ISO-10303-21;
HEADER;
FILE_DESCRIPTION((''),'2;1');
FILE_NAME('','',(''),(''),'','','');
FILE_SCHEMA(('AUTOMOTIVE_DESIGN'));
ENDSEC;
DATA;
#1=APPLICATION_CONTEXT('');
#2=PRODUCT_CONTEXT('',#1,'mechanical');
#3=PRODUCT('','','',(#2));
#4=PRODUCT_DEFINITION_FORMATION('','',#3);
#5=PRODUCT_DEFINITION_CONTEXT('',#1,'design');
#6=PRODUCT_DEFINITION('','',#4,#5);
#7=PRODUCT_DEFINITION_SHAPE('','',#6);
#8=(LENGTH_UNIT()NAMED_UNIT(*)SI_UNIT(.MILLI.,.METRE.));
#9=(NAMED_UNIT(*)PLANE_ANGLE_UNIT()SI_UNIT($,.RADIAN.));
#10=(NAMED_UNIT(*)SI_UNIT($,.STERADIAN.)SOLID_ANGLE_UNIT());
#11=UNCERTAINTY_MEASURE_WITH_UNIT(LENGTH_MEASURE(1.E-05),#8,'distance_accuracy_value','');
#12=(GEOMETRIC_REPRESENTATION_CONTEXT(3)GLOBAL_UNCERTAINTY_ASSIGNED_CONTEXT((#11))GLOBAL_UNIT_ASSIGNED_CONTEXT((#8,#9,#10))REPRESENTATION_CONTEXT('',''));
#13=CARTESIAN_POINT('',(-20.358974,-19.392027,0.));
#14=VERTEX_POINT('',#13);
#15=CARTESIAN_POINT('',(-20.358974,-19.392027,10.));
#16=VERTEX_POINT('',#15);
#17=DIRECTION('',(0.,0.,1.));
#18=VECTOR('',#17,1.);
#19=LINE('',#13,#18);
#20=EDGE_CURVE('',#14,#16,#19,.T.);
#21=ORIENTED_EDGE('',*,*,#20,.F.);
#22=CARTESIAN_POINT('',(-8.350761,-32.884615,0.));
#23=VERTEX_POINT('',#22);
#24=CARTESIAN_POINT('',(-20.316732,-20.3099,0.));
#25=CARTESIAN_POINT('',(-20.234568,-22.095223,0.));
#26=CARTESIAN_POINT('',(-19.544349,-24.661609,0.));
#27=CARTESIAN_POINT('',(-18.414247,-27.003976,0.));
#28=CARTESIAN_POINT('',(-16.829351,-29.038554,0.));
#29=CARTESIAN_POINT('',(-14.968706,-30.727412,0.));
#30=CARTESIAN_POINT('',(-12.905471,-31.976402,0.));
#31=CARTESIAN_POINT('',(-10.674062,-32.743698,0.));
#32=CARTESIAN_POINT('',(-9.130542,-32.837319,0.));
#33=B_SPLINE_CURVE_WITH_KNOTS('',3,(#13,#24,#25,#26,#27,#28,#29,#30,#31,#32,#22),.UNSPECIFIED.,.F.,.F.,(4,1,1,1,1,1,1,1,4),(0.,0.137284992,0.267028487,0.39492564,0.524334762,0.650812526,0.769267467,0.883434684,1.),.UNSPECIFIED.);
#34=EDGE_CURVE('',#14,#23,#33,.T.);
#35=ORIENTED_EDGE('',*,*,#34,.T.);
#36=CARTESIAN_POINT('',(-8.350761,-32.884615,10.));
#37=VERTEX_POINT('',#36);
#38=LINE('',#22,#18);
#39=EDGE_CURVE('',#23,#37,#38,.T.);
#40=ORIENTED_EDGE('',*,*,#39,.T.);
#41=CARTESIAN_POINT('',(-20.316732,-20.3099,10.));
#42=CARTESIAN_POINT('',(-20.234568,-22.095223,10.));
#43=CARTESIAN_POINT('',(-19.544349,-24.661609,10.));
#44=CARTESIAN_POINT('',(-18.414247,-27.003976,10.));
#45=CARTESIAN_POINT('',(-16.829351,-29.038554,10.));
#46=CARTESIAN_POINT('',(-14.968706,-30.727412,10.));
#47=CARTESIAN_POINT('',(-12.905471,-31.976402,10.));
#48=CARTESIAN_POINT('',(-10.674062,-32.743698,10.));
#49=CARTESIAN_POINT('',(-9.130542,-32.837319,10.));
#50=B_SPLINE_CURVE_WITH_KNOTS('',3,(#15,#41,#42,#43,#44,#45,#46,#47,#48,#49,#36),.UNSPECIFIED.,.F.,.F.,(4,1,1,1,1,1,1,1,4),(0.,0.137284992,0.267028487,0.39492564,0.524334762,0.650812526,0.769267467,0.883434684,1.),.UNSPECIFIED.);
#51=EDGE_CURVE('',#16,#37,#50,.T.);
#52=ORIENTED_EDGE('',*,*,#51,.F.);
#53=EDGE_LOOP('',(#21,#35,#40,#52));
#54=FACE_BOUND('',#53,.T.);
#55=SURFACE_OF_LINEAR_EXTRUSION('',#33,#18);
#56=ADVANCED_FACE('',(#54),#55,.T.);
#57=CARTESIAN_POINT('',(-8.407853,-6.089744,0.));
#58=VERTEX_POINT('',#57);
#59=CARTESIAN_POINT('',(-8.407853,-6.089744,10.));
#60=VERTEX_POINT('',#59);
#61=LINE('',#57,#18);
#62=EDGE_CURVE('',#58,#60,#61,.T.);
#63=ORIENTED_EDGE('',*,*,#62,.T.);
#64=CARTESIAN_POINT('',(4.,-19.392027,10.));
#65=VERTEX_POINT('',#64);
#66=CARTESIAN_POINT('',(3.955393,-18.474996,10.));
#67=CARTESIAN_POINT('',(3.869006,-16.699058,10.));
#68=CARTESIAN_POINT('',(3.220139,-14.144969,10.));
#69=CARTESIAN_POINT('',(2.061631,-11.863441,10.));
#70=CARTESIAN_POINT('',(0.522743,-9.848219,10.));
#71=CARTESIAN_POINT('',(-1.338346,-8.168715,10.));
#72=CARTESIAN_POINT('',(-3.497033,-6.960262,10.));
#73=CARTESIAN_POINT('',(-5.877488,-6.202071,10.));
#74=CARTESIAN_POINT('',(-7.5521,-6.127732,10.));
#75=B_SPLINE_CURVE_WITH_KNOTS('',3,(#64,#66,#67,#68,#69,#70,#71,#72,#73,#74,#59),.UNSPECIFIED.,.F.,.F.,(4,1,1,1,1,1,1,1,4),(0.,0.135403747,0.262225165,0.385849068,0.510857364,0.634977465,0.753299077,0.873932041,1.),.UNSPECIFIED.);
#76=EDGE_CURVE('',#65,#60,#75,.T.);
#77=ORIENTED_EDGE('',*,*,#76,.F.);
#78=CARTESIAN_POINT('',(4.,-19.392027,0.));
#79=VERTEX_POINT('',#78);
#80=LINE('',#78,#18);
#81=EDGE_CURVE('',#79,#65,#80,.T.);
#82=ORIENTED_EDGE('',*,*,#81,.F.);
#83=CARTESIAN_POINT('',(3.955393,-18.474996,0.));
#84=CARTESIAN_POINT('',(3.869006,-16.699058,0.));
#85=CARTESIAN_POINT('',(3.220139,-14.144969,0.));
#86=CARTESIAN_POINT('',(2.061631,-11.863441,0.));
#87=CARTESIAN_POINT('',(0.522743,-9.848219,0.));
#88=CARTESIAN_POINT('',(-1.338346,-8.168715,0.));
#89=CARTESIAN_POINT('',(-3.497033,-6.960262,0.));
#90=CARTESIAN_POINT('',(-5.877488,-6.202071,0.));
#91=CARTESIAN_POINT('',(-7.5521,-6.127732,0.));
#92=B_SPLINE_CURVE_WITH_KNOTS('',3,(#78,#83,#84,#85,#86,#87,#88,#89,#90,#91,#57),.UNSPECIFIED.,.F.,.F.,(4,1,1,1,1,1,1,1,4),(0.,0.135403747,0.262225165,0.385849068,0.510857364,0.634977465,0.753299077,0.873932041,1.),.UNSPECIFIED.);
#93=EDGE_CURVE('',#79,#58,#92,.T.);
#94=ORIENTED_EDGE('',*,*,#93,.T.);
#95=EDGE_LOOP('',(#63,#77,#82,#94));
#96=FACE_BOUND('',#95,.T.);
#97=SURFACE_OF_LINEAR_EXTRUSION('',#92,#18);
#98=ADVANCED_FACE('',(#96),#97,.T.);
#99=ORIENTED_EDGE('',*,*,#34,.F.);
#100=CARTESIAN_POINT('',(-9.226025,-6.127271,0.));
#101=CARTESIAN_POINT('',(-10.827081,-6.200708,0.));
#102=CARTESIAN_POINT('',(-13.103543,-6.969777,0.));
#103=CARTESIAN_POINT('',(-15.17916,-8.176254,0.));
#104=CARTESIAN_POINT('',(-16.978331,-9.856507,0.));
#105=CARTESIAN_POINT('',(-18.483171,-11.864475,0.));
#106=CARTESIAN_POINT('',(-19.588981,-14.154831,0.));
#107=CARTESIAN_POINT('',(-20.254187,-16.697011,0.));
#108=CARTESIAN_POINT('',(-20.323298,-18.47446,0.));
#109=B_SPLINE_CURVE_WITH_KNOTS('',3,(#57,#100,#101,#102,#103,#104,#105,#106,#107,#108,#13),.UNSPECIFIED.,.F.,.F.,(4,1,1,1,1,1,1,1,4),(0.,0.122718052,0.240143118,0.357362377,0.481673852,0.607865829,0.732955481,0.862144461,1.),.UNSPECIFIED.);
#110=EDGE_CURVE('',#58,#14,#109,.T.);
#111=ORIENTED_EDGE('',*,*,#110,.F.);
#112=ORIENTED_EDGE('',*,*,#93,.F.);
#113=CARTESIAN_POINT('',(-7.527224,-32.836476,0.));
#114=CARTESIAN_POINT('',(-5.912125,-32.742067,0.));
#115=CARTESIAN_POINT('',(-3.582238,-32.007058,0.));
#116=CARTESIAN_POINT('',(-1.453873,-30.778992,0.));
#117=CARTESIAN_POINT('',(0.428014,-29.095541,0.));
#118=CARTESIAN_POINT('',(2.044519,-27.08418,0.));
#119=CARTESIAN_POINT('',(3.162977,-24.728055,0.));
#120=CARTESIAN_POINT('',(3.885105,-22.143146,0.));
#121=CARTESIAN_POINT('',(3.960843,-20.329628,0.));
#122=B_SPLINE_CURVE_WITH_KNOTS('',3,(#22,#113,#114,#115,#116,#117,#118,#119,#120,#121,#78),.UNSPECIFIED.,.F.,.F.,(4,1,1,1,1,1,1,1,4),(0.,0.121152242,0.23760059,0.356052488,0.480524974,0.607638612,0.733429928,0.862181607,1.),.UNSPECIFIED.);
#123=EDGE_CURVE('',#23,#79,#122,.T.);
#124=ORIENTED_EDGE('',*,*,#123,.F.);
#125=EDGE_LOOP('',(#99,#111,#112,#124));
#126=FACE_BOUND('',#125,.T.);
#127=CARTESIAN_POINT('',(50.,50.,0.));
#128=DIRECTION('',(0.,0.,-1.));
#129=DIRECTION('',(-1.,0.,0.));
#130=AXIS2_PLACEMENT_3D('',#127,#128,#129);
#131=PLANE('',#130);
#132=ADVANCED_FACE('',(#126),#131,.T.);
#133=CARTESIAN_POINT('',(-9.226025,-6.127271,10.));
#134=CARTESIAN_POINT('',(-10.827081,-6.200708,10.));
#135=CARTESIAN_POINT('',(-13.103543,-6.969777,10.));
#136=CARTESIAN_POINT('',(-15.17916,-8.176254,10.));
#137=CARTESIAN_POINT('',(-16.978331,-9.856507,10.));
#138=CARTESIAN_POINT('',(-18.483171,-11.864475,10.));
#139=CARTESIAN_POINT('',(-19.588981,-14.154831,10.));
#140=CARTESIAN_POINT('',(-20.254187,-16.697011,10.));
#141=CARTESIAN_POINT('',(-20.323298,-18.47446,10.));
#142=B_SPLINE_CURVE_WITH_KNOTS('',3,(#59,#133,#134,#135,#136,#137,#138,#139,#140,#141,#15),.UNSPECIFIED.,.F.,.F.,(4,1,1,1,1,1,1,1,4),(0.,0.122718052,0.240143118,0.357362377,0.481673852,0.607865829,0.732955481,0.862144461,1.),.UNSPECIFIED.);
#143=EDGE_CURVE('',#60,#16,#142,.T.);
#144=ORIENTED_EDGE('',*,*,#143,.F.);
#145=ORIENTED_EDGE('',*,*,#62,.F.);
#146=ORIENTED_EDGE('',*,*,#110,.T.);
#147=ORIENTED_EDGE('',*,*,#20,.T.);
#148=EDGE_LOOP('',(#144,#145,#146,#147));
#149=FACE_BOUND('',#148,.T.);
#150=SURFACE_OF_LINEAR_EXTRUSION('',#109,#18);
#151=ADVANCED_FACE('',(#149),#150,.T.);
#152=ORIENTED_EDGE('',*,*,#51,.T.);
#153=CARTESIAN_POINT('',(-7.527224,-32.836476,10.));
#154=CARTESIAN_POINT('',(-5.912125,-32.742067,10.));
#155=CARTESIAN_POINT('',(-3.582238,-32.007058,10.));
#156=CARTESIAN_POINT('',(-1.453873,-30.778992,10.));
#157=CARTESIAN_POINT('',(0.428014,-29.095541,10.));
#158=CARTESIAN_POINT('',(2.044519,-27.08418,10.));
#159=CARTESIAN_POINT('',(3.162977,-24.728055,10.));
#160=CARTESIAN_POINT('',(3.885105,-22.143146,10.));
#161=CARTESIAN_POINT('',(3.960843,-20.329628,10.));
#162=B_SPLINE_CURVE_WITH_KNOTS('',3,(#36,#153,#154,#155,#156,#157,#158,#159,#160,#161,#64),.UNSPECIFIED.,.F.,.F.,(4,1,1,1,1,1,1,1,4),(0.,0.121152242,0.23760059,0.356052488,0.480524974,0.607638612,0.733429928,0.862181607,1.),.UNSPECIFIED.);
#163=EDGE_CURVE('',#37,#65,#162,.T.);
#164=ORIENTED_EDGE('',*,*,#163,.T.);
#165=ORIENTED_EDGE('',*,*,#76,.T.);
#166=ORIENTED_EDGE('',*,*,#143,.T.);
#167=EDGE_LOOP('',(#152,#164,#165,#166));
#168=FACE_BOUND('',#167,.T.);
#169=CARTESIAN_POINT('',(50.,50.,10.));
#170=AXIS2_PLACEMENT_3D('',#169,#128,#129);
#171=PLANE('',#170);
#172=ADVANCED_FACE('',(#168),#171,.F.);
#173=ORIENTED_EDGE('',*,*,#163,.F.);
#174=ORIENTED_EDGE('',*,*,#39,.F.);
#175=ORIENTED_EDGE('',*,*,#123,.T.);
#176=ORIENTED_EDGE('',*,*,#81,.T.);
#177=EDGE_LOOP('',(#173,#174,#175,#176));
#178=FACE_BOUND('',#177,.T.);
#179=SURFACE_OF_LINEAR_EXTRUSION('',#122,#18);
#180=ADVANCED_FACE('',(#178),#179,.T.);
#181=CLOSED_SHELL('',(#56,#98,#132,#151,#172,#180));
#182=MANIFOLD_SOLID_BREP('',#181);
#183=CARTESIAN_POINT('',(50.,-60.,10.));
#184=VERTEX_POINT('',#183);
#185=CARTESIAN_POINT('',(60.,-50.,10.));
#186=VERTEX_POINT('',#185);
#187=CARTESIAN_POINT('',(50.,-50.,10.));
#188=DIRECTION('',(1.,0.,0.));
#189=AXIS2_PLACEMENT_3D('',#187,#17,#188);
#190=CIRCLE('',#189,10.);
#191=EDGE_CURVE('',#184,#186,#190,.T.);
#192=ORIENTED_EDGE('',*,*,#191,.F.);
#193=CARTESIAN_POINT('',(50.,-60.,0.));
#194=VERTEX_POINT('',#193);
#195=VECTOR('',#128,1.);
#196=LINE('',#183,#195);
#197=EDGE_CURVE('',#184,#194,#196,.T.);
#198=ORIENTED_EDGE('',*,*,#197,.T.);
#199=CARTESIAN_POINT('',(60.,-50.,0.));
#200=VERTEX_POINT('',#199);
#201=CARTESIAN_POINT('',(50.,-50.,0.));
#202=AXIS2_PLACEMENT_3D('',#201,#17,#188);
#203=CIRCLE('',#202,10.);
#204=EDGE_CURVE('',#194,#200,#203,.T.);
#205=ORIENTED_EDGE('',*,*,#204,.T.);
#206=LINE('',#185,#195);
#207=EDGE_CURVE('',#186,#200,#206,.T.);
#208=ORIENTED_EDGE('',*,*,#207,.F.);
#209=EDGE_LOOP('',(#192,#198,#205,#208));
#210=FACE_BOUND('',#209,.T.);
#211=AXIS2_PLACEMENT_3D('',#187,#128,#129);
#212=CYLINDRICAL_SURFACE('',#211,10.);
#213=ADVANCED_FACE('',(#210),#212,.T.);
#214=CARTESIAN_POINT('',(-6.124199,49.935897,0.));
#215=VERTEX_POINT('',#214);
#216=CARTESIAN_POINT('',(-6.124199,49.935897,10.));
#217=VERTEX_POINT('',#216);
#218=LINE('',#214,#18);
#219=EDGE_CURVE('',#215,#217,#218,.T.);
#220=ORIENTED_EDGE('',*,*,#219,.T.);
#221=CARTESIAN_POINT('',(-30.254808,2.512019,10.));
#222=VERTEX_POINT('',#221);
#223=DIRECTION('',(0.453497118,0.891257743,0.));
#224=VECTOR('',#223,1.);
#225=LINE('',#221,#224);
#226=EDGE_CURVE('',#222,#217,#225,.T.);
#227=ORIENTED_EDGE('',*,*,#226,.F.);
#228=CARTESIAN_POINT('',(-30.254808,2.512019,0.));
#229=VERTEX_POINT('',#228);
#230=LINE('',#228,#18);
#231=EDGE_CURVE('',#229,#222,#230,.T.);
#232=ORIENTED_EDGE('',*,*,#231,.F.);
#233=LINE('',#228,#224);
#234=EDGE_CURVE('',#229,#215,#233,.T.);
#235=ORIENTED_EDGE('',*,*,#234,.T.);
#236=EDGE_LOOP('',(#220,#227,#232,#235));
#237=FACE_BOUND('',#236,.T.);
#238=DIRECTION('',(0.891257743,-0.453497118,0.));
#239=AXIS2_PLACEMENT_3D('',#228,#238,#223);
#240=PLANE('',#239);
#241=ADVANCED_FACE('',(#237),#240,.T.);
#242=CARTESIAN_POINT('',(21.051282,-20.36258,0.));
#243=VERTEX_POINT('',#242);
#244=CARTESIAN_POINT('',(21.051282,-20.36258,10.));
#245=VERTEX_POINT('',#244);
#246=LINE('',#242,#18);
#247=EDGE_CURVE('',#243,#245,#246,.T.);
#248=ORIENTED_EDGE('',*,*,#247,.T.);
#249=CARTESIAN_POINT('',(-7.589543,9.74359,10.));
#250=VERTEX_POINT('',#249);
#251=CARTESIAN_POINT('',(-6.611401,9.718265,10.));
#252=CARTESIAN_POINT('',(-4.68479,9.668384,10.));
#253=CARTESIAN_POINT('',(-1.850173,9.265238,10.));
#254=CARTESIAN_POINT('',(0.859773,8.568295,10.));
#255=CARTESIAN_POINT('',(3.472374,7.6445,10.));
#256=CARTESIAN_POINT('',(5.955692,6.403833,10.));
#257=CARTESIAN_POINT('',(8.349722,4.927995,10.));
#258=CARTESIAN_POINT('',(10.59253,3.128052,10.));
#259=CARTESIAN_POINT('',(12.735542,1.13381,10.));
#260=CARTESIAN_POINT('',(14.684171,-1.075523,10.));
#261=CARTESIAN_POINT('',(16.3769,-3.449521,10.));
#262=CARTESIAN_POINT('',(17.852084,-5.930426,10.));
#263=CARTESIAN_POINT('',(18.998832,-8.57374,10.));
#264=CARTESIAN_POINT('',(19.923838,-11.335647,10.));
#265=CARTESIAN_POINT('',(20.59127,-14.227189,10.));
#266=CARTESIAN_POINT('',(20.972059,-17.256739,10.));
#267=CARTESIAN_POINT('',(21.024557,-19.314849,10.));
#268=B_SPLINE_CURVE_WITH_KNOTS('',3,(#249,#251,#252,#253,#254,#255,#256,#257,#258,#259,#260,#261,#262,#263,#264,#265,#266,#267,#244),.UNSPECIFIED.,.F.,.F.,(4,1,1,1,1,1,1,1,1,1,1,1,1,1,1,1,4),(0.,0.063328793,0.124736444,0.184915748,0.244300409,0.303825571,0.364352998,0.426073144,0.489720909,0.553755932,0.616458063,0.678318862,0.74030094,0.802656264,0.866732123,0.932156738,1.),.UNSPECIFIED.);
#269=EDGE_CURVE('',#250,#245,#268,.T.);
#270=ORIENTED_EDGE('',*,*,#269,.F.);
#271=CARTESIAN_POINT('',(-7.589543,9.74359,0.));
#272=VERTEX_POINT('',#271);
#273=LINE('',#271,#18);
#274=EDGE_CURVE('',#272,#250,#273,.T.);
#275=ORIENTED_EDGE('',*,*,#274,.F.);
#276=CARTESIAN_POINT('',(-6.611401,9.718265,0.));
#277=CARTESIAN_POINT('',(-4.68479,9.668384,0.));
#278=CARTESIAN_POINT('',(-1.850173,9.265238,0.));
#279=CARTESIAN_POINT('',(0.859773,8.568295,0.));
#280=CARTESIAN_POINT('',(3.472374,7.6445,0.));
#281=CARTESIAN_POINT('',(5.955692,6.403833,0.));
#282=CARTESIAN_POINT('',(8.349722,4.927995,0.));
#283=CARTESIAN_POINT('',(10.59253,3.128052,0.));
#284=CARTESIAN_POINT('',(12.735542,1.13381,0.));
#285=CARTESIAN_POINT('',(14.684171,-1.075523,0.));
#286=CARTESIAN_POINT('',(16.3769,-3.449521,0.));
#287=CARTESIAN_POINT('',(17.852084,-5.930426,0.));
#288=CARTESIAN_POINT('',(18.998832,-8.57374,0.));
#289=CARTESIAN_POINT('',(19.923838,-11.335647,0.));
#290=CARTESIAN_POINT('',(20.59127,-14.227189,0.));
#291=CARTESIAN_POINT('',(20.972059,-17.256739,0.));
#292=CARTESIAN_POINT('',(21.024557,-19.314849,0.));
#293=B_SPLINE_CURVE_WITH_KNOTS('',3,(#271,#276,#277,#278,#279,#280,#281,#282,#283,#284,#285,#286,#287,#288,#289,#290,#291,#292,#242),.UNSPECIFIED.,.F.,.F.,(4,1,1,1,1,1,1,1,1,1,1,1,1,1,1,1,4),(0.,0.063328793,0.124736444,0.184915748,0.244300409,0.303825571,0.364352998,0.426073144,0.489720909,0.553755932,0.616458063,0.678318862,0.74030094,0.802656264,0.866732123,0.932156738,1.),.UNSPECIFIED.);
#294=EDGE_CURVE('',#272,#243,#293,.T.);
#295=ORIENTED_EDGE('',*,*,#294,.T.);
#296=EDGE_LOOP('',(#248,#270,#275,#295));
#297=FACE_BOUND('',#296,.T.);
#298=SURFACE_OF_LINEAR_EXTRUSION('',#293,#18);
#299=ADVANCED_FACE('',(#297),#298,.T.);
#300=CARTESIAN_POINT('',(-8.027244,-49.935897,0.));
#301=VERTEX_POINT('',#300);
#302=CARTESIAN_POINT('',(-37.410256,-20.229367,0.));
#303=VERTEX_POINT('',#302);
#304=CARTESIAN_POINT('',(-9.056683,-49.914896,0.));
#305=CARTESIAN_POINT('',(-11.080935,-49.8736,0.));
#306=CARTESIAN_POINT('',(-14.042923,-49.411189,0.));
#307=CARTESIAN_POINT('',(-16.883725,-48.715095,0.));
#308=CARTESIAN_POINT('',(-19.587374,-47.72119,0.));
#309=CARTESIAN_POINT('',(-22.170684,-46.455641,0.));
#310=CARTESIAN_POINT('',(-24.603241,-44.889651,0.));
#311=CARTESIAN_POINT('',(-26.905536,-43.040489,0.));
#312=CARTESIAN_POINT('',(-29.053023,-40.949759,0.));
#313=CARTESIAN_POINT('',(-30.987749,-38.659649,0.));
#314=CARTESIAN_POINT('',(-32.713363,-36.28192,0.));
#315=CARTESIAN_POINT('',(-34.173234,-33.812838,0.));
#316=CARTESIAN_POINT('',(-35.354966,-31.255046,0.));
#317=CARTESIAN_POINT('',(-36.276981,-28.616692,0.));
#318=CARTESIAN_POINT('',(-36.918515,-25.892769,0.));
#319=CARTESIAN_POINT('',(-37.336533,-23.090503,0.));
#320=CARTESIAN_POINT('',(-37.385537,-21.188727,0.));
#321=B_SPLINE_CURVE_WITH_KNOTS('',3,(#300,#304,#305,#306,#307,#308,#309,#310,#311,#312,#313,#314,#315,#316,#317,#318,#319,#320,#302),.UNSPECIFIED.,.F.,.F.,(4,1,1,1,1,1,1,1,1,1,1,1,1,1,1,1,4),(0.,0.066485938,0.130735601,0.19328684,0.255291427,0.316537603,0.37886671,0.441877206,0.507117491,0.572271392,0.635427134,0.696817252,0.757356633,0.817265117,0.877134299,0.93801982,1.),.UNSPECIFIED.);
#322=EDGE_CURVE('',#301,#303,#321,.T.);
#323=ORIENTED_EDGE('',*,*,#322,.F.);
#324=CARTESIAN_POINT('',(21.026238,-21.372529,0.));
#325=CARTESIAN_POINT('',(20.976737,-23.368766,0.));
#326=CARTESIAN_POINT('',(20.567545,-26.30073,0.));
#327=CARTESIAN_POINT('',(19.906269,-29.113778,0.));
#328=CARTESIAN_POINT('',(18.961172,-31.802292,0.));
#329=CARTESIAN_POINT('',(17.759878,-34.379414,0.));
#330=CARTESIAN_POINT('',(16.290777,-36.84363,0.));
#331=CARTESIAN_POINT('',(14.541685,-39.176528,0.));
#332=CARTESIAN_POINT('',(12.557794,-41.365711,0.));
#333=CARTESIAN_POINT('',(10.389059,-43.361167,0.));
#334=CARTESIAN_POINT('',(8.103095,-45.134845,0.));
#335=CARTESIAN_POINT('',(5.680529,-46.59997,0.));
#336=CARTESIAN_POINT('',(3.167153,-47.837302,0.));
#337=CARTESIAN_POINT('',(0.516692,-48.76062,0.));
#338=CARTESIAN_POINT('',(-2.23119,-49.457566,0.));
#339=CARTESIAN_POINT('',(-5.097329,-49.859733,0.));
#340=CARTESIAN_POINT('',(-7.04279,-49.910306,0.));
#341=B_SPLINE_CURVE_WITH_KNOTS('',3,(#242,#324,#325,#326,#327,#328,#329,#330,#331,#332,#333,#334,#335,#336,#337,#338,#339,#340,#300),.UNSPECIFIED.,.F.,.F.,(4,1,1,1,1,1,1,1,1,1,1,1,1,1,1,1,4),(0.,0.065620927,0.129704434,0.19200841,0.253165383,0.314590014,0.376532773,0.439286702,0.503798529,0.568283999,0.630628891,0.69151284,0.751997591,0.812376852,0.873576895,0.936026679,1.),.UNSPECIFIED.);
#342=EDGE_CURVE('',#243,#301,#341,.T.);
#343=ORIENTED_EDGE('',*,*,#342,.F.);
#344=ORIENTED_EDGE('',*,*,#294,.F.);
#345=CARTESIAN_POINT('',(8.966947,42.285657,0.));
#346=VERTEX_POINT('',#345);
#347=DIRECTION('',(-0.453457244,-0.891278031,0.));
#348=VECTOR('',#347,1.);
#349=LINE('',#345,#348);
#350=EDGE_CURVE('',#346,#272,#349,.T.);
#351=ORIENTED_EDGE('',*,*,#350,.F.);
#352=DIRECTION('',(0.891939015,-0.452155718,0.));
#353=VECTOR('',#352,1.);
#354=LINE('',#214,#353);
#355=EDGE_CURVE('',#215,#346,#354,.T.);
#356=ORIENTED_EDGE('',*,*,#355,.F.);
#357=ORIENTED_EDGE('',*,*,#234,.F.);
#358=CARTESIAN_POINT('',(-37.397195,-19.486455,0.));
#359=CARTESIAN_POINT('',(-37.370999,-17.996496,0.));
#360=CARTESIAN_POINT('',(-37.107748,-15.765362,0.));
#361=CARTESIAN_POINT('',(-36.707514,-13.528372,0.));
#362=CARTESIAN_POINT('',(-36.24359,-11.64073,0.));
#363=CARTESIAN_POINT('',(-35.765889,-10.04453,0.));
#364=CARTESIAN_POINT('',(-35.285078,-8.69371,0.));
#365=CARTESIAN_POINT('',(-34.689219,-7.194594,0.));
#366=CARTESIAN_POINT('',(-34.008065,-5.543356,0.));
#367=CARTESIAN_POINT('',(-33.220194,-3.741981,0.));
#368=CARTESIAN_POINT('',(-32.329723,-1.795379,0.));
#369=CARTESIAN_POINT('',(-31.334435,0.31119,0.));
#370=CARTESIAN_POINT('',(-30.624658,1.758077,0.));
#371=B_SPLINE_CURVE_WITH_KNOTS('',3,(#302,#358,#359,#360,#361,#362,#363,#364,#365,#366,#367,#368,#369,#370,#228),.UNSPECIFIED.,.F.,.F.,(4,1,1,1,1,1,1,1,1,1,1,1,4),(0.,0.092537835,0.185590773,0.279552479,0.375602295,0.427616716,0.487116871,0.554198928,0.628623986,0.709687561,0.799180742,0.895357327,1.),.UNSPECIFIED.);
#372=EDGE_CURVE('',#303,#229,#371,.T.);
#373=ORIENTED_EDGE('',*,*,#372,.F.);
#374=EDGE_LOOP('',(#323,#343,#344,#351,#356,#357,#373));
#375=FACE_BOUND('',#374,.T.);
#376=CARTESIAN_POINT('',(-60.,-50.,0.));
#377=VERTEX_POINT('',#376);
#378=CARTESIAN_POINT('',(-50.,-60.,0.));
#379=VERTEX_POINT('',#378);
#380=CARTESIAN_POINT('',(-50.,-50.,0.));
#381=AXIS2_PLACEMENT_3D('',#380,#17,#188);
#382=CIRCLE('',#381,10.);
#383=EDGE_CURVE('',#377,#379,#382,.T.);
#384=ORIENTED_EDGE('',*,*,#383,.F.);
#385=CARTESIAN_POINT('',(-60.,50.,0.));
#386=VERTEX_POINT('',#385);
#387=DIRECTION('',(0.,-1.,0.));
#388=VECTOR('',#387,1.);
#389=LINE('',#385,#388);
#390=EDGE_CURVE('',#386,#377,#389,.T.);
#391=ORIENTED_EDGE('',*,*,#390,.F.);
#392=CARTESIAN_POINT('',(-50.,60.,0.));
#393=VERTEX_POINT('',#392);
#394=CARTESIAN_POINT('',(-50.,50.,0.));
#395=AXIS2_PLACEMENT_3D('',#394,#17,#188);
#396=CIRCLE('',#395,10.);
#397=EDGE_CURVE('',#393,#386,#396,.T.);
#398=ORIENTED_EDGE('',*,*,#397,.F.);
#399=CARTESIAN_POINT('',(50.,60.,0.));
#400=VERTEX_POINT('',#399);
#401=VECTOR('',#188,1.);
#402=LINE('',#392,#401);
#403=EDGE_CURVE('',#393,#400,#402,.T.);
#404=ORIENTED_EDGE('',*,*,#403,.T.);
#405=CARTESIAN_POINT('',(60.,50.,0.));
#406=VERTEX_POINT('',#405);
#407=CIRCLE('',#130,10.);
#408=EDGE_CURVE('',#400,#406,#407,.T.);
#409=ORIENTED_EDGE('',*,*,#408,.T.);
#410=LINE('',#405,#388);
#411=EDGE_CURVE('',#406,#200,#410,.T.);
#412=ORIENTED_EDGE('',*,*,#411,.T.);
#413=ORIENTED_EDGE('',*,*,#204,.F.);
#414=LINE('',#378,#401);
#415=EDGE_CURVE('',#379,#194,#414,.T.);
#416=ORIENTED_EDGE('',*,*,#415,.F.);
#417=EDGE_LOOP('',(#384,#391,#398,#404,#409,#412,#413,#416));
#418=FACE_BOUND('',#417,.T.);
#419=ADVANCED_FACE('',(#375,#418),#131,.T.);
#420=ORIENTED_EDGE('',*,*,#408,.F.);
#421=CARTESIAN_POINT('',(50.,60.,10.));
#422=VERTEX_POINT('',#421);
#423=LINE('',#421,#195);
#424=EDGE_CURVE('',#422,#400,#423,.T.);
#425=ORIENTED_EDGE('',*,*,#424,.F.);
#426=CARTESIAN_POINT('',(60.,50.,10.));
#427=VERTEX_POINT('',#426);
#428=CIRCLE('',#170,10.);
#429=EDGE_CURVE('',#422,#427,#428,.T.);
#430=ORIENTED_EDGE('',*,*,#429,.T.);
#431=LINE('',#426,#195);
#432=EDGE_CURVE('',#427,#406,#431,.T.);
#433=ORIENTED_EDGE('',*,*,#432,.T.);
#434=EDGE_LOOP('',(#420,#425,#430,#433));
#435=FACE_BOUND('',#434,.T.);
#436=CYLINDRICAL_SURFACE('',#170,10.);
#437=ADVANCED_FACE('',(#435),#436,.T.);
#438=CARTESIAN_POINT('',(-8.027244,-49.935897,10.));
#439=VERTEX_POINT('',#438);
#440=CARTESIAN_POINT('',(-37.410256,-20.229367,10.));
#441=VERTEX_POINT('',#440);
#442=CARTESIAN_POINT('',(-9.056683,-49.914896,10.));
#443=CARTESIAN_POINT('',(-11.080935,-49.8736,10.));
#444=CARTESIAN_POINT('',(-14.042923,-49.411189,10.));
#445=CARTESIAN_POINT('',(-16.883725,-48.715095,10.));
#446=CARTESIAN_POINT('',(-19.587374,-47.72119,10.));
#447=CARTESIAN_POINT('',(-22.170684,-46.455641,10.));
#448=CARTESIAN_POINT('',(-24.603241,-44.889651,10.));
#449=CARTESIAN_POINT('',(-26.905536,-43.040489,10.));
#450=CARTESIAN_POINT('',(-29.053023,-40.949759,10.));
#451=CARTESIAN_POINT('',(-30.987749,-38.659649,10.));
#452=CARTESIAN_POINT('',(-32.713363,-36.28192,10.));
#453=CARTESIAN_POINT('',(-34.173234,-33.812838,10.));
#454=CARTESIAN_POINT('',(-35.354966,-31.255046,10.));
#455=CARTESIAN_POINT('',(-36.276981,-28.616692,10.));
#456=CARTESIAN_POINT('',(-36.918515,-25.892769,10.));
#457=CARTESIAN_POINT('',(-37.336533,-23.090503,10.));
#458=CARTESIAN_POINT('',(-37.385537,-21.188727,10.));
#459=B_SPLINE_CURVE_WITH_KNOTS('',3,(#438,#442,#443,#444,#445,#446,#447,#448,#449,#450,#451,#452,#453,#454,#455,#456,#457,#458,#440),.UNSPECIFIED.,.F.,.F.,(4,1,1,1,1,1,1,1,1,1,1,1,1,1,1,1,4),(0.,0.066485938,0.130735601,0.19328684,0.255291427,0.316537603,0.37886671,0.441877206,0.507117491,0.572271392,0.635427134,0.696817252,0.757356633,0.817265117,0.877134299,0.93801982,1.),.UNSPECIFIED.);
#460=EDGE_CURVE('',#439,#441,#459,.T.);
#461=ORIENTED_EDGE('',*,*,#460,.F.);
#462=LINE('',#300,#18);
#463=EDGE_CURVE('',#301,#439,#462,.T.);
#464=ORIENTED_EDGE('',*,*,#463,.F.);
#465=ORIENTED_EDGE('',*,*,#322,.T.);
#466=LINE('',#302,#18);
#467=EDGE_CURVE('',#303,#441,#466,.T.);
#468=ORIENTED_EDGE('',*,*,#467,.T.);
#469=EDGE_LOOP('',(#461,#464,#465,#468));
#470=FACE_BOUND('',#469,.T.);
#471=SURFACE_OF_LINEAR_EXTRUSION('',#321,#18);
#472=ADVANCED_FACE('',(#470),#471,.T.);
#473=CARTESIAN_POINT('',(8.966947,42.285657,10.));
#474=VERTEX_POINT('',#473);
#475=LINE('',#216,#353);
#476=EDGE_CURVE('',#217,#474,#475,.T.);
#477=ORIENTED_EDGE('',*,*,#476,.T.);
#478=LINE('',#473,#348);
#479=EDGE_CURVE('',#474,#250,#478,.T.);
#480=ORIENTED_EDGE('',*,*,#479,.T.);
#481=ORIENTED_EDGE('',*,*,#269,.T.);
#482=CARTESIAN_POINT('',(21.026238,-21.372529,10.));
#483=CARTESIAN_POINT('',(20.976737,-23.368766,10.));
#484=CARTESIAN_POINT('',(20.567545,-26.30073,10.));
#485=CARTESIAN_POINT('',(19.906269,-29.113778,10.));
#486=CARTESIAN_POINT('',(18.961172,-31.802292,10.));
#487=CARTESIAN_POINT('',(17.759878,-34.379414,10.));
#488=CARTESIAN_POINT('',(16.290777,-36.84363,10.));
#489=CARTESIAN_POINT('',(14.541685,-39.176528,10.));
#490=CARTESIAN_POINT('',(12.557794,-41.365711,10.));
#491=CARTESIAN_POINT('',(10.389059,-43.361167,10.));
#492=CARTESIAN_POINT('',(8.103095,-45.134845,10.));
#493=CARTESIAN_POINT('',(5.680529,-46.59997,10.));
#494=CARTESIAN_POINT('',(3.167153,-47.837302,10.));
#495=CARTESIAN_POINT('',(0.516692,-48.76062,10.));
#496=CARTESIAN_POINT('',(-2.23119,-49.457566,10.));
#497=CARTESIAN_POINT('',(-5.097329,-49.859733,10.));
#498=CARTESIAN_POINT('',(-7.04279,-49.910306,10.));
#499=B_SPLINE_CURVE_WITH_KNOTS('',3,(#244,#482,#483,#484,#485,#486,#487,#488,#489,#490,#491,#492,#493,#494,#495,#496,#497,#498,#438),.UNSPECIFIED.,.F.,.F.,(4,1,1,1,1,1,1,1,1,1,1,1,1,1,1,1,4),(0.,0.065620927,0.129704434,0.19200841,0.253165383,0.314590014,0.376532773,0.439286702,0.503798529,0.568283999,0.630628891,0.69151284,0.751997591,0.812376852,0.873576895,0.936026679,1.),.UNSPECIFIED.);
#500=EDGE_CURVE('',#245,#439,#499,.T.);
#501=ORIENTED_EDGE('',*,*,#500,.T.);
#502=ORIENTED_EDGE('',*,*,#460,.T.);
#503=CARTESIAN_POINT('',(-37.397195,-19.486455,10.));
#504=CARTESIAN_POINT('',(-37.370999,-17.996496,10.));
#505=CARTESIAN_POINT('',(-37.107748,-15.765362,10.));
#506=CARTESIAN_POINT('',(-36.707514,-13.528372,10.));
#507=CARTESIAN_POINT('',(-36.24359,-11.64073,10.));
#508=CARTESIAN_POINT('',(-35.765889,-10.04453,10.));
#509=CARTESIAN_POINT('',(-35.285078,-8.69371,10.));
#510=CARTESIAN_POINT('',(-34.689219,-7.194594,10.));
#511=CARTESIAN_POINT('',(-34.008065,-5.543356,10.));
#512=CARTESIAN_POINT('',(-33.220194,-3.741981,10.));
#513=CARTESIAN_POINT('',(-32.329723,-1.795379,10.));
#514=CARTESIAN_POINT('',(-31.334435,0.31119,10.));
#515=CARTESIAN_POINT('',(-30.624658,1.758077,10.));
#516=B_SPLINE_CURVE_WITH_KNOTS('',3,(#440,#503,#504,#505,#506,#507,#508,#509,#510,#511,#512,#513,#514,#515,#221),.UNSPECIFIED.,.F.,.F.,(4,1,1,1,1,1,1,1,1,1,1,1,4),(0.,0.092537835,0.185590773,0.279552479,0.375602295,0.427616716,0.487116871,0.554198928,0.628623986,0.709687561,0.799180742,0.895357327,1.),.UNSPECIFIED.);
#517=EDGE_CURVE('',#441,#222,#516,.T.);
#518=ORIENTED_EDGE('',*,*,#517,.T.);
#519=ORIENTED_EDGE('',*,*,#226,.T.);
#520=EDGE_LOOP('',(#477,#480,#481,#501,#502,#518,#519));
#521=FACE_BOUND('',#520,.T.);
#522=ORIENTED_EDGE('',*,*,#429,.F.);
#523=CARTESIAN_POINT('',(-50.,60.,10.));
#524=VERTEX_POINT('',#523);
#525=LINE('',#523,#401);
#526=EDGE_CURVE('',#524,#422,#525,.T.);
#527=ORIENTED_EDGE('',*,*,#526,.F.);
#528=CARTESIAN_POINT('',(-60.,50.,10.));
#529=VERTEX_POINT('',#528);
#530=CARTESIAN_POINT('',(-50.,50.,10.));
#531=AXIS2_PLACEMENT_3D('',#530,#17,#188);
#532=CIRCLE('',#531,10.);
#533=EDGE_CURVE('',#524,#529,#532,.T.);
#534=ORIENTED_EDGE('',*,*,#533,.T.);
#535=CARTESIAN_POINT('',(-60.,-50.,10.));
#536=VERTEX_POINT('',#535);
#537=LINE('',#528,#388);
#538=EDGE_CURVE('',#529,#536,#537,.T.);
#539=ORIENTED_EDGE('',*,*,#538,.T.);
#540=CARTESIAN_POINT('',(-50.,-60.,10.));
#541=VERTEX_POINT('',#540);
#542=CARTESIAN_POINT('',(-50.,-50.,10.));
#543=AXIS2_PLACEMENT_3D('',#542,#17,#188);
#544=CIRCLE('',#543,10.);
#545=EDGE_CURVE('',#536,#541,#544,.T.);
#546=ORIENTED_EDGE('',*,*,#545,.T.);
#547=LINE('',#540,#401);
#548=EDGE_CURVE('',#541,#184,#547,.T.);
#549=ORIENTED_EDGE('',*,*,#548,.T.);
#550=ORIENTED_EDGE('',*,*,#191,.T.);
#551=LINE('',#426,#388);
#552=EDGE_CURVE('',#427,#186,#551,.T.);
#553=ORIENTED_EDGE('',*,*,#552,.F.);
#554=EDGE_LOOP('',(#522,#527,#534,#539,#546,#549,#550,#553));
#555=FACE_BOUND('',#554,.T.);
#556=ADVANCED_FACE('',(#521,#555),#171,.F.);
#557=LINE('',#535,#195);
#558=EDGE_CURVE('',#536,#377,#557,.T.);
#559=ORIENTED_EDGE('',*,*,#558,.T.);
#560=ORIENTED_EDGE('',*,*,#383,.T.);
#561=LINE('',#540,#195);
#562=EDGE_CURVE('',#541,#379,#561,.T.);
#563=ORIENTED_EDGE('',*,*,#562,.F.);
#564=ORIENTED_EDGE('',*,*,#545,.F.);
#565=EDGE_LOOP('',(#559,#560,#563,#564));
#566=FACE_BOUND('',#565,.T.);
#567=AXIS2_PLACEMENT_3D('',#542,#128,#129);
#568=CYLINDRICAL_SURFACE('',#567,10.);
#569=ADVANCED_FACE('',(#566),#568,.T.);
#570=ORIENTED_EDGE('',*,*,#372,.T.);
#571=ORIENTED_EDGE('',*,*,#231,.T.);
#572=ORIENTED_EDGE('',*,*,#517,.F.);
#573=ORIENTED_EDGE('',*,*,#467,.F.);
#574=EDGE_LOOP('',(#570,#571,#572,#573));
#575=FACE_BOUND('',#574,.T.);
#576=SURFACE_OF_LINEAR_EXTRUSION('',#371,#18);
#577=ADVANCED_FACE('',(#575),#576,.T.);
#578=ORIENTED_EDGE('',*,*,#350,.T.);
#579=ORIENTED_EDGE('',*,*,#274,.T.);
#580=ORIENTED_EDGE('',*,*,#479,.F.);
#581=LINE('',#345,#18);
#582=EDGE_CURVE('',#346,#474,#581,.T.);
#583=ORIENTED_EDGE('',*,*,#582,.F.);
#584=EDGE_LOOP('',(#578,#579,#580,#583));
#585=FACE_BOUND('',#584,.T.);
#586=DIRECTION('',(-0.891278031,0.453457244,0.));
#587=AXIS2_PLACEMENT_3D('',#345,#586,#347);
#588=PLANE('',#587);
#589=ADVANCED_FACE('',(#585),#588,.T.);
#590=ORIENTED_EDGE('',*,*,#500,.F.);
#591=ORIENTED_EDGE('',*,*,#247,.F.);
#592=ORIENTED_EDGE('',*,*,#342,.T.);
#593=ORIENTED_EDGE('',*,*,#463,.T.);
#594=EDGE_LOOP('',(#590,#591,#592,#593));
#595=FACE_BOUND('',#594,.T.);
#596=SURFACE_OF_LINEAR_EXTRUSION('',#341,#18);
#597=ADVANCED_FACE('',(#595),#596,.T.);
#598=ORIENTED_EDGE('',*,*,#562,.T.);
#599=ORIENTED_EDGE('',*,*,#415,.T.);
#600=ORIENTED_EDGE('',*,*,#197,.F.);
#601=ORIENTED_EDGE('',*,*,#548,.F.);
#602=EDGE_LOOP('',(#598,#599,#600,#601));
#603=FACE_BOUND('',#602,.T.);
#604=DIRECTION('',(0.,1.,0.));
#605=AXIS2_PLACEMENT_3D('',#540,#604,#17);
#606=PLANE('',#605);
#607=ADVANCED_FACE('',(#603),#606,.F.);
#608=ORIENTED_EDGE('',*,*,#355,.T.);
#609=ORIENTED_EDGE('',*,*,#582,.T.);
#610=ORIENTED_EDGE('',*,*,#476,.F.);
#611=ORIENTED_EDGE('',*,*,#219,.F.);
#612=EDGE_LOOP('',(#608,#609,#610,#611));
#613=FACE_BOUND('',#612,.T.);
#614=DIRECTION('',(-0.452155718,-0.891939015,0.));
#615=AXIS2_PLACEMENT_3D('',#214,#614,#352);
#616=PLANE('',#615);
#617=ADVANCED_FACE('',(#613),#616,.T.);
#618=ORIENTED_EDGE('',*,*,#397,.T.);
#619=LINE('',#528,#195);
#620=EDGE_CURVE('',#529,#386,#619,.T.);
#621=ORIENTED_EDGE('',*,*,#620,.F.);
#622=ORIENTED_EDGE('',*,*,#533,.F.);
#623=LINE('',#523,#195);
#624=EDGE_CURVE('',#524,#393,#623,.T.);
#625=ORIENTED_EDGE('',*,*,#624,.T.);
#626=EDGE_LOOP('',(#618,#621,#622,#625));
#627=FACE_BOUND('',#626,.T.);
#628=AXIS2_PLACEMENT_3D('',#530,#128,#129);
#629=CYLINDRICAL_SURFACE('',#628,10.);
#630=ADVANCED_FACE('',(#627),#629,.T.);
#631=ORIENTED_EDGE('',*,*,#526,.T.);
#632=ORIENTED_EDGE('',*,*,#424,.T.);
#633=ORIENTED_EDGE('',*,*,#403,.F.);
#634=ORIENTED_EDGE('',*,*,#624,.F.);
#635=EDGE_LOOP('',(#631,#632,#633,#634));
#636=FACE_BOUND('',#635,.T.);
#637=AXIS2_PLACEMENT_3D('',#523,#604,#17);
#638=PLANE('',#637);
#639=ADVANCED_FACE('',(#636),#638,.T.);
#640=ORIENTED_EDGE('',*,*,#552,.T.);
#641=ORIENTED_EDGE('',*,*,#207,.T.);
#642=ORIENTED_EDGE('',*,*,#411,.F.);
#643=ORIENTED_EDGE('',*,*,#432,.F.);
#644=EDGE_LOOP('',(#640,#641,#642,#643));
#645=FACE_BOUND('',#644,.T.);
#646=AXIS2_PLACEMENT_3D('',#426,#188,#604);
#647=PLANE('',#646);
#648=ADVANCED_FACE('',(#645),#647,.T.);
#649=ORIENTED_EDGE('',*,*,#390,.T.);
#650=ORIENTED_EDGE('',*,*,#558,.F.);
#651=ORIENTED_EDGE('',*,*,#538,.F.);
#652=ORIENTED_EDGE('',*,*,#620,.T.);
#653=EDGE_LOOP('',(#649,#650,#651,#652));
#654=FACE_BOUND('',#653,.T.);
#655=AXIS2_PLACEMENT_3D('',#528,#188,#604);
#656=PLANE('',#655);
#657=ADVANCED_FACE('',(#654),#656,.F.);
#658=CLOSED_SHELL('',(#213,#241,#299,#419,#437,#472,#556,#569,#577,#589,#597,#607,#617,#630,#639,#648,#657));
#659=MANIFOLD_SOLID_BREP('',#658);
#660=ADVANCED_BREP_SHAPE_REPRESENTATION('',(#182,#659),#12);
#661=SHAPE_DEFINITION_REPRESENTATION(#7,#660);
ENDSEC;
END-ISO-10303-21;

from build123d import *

# Parameters (mm, degrees)
BOSS_EXTRUDE1_DEPTH = 10
CUT_EXTRUDE4_DEPTH  = 10


with BuildPart() as part:
    # Sketch1 → Boss-Extrude1 (new body)
    with BuildSketch(Plane.XY):
        with BuildLine():
            Line((-50, 60), (50, 60))
            ThreePointArc((50, 60), (57.071067812, 57.071067812), (60, 50))
            Line((60, 50), (60, -50))
            ThreePointArc((60, -50), (57.071067812, -57.071067812), (50, -60))
            Line((50, -60), (-50, -60))
            ThreePointArc((-50, -60), (-57.071067812, -57.071067812), (-60, -50))
            Line((-60, -50), (-60, 50))
            ThreePointArc((-60, 50), (-57.071067812, 57.071067812), (-50, 60))
        make_face()
    extrude(amount=BOSS_EXTRUDE1_DEPTH)

    # Sketch2 → Cut-Extrude4 (cut)
    with BuildSketch(Plane.XY.offset(10)):
        with BuildLine():
            Line((-6.124198718, 49.935897436), (8.966947115, 42.285657051))
            Line((8.966947115, 42.285657051), (-7.589543269, 9.743589744))
            add(Edge.make_bspline(
                [(-7.589543269, 9.743589744), (-6.611401353, 9.718265156), (-4.684790438, 9.668384228), (-1.850173407, 9.265238226), (0.859773239, 8.568295456), (3.472373776, 7.644499699), (5.955691637, 6.403832822), (8.349722036, 4.927994847), (10.5925302, 3.128051695), (12.735541798, 1.133810178), (14.684171235, -1.075522815), (16.376900405, -3.4495213), (17.852083993, -5.930425603), (18.998832346, -8.573739573), (19.923837754, -11.335647275), (20.591269863, -14.227189241), (20.972058555, -17.25673874), (21.024556627, -19.314848948), (21.051282051, -20.362580128)],
                knots=[0, 0, 0, 0, 1.013260694, 1.995783107, 2.958651975, 3.908806537, 4.861209129, 5.829647963, 6.817170299, 7.835534541, 8.860094905, 9.863329007, 10.853101798, 11.844815043, 12.84250023, 13.867713965, 14.914507806, 16, 16, 16, 16], degree=3))
            add(Edge.make_bspline(
                [(21.051282051, -20.362580128), (21.026238117, -21.372529431), (20.976736999, -23.36876612), (20.567544726, -26.300730118), (19.906268516, -29.113778112), (18.961172021, -31.802292095), (17.759877945, -34.379413601), (16.290776659, -36.84363035), (14.541684822, -39.176528058), (12.557794128, -41.365710829), (10.389059356, -43.361167109), (8.103094783, -45.134844784), (5.680529431, -46.599969838), (3.167152621, -47.837302292), (0.51669155, -48.760620347), (-2.231189506, -49.457565528), (-5.097328522, -49.859733154), (-7.042790252, -49.910306188), (-8.02724359, -49.935897436)],
                knots=[0, 0, 0, 0, 1.049934834, 2.075270938, 3.072134561, 4.05064612, 5.033440221, 6.024524368, 7.028587226, 8.060776465, 9.092543989, 10.090062252, 11.064205434, 12.031961459, 12.998029633, 13.977230324, 14.976426867, 16, 16, 16, 16], degree=3))
            add(Edge.make_bspline(
                [(-8.02724359, -49.935897436), (-9.056682618, -49.914896057), (-11.080935178, -49.873599687), (-14.042923287, -49.411189181), (-16.883724805, -48.715094627), (-19.587373971, -47.72118987), (-22.170683973, -46.455640691), (-24.603240995, -44.889650868), (-26.905535958, -43.040489076), (-29.053023033, -40.949758538), (-30.98774885, -38.65964929), (-32.713362576, -36.281919647), (-34.173234017, -33.812838423), (-35.354965917, -31.255045538), (-36.276980553, -28.616691514), (-36.918514688, -25.892768969), (-37.336533382, -23.090503107), (-37.385536538, -21.188726918), (-37.41025641, -20.229366987)],
                knots=[0, 0, 0, 0, 1.063775006, 2.091769615, 3.092589432, 4.084662827, 5.064601646, 6.061867366, 7.070035304, 8.113879863, 9.156342271, 10.166834137, 11.149076039, 12.117706134, 13.076241869, 14.034148791, 15.008317125, 16, 16, 16, 16], degree=3))
            add(Edge.make_bspline(
                [(-37.41025641, -20.229366987), (-37.397194915, -19.48645495), (-37.37099922, -17.996495521), (-37.107748141, -15.765362242), (-36.707514033, -13.528372449), (-36.243590299, -11.640729627), (-35.765888506, -10.044530074), (-35.285077983, -8.693709525), (-34.68921928, -7.194594085), (-34.008064519, -5.54335562), (-33.220193861, -3.741980566), (-32.329723004, -1.795379002), (-31.334435069, 0.311190202), (-30.624657691, 1.758077055), (-30.254807692, 2.512019231)],
                knots=[0, 0, 0, 0, 1.110454016, 2.227089276, 3.35462975, 4.507227546, 5.131400587, 5.845402449, 6.650387134, 7.543487832, 8.516250726, 9.590168902, 10.744287919, 12, 12, 12, 12], degree=3))
            Line((-30.254807692, 2.512019231), (-6.124198718, 49.935897436))
        make_face()
        with BuildLine():
            add(Edge.make_bspline(
                [(-8.407852564, -6.08974359), (-9.226024974, -6.127271429), (-10.827080981, -6.200708486), (-13.103543184, -6.969777088), (-15.179160216, -8.176254317), (-16.978330731, -9.856507181), (-18.48317132, -11.864475335), (-19.588980983, -14.154831224), (-20.254186954, -16.697010679), (-20.323297594, -18.474460173), (-20.358974359, -19.392027244)],
                knots=[0, 0, 0, 0, 0.981744412, 1.921144944, 2.858899012, 3.85339082, 4.86292663, 5.863643845, 6.897155691, 8, 8, 8, 8], degree=3))
            add(Edge.make_bspline(
                [(-20.358974359, -19.392027244), (-20.316731952, -20.309899867), (-20.234567647, -22.095223475), (-19.544349062, -24.661609016), (-18.414247075, -27.003976231), (-16.829351099, -29.038554326), (-14.968706005, -30.727411663), (-12.905471285, -31.976402421), (-10.674062437, -32.743698427), (-9.130542441, -32.83731872), (-8.350761218, -32.884615385)],
                knots=[0, 0, 0, 0, 1.098279937, 2.136227893, 3.159405121, 4.194678092, 5.206500211, 6.154139736, 7.067477469, 8, 8, 8, 8], degree=3))
            add(Edge.make_bspline(
                [(-8.350761218, -32.884615385), (-7.527224111, -32.836476333), (-5.912124811, -32.742067292), (-3.582238145, -32.007057701), (-1.453872696, -30.778991633), (0.428014058, -29.095541313), (2.044519018, -27.084180493), (3.162977168, -24.728054541), (3.885104863, -22.143145743), (3.960842941, -20.329627504), (4, -19.392027244)],
                knots=[0, 0, 0, 0, 0.96921794, 1.900804717, 2.848419905, 3.844199796, 4.861108892, 5.867439427, 6.897452859, 8, 8, 8, 8], degree=3))
            add(Edge.make_bspline(
                [(4, -19.392027244), (3.955392956, -18.474995927), (3.869006208, -16.69905771), (3.220139362, -14.144968729), (2.061631424, -11.863440716), (0.522742602, -9.848218605), (-1.338345813, -8.168714968), (-3.49703327, -6.960262431), (-5.877488064, -6.202071026), (-7.552100104, -6.127731982), (-8.407852564, -6.08974359)],
                knots=[0, 0, 0, 0, 1.083229974, 2.097801324, 3.086792542, 4.086858909, 5.079819718, 6.026392613, 6.991456328, 8, 8, 8, 8], degree=3))
        make_face(mode=Mode.SUBTRACT)
    extrude(amount=-CUT_EXTRUDE4_DEPTH, mode=Mode.SUBTRACT)


with BuildPart() as cut_extrude4_piece_1:
    # of the separate pieces the step leaves, piece 1, a body of its own (cut_extrude4_pieces)
    add(part.part.solids().sort_by_distance((-50, 60, 0))[0])


with BuildPart() as cut_extrude4_piece_2:
    # of the separate pieces the step leaves, piece 2, a body of its own (cut_extrude4_pieces)
    add(part.part.solids().sort_by_distance((-8.407852564, -6.08974359, 0))[0])


solid = Compound([cut_extrude4_piece_1.part, cut_extrude4_piece_2.part])
